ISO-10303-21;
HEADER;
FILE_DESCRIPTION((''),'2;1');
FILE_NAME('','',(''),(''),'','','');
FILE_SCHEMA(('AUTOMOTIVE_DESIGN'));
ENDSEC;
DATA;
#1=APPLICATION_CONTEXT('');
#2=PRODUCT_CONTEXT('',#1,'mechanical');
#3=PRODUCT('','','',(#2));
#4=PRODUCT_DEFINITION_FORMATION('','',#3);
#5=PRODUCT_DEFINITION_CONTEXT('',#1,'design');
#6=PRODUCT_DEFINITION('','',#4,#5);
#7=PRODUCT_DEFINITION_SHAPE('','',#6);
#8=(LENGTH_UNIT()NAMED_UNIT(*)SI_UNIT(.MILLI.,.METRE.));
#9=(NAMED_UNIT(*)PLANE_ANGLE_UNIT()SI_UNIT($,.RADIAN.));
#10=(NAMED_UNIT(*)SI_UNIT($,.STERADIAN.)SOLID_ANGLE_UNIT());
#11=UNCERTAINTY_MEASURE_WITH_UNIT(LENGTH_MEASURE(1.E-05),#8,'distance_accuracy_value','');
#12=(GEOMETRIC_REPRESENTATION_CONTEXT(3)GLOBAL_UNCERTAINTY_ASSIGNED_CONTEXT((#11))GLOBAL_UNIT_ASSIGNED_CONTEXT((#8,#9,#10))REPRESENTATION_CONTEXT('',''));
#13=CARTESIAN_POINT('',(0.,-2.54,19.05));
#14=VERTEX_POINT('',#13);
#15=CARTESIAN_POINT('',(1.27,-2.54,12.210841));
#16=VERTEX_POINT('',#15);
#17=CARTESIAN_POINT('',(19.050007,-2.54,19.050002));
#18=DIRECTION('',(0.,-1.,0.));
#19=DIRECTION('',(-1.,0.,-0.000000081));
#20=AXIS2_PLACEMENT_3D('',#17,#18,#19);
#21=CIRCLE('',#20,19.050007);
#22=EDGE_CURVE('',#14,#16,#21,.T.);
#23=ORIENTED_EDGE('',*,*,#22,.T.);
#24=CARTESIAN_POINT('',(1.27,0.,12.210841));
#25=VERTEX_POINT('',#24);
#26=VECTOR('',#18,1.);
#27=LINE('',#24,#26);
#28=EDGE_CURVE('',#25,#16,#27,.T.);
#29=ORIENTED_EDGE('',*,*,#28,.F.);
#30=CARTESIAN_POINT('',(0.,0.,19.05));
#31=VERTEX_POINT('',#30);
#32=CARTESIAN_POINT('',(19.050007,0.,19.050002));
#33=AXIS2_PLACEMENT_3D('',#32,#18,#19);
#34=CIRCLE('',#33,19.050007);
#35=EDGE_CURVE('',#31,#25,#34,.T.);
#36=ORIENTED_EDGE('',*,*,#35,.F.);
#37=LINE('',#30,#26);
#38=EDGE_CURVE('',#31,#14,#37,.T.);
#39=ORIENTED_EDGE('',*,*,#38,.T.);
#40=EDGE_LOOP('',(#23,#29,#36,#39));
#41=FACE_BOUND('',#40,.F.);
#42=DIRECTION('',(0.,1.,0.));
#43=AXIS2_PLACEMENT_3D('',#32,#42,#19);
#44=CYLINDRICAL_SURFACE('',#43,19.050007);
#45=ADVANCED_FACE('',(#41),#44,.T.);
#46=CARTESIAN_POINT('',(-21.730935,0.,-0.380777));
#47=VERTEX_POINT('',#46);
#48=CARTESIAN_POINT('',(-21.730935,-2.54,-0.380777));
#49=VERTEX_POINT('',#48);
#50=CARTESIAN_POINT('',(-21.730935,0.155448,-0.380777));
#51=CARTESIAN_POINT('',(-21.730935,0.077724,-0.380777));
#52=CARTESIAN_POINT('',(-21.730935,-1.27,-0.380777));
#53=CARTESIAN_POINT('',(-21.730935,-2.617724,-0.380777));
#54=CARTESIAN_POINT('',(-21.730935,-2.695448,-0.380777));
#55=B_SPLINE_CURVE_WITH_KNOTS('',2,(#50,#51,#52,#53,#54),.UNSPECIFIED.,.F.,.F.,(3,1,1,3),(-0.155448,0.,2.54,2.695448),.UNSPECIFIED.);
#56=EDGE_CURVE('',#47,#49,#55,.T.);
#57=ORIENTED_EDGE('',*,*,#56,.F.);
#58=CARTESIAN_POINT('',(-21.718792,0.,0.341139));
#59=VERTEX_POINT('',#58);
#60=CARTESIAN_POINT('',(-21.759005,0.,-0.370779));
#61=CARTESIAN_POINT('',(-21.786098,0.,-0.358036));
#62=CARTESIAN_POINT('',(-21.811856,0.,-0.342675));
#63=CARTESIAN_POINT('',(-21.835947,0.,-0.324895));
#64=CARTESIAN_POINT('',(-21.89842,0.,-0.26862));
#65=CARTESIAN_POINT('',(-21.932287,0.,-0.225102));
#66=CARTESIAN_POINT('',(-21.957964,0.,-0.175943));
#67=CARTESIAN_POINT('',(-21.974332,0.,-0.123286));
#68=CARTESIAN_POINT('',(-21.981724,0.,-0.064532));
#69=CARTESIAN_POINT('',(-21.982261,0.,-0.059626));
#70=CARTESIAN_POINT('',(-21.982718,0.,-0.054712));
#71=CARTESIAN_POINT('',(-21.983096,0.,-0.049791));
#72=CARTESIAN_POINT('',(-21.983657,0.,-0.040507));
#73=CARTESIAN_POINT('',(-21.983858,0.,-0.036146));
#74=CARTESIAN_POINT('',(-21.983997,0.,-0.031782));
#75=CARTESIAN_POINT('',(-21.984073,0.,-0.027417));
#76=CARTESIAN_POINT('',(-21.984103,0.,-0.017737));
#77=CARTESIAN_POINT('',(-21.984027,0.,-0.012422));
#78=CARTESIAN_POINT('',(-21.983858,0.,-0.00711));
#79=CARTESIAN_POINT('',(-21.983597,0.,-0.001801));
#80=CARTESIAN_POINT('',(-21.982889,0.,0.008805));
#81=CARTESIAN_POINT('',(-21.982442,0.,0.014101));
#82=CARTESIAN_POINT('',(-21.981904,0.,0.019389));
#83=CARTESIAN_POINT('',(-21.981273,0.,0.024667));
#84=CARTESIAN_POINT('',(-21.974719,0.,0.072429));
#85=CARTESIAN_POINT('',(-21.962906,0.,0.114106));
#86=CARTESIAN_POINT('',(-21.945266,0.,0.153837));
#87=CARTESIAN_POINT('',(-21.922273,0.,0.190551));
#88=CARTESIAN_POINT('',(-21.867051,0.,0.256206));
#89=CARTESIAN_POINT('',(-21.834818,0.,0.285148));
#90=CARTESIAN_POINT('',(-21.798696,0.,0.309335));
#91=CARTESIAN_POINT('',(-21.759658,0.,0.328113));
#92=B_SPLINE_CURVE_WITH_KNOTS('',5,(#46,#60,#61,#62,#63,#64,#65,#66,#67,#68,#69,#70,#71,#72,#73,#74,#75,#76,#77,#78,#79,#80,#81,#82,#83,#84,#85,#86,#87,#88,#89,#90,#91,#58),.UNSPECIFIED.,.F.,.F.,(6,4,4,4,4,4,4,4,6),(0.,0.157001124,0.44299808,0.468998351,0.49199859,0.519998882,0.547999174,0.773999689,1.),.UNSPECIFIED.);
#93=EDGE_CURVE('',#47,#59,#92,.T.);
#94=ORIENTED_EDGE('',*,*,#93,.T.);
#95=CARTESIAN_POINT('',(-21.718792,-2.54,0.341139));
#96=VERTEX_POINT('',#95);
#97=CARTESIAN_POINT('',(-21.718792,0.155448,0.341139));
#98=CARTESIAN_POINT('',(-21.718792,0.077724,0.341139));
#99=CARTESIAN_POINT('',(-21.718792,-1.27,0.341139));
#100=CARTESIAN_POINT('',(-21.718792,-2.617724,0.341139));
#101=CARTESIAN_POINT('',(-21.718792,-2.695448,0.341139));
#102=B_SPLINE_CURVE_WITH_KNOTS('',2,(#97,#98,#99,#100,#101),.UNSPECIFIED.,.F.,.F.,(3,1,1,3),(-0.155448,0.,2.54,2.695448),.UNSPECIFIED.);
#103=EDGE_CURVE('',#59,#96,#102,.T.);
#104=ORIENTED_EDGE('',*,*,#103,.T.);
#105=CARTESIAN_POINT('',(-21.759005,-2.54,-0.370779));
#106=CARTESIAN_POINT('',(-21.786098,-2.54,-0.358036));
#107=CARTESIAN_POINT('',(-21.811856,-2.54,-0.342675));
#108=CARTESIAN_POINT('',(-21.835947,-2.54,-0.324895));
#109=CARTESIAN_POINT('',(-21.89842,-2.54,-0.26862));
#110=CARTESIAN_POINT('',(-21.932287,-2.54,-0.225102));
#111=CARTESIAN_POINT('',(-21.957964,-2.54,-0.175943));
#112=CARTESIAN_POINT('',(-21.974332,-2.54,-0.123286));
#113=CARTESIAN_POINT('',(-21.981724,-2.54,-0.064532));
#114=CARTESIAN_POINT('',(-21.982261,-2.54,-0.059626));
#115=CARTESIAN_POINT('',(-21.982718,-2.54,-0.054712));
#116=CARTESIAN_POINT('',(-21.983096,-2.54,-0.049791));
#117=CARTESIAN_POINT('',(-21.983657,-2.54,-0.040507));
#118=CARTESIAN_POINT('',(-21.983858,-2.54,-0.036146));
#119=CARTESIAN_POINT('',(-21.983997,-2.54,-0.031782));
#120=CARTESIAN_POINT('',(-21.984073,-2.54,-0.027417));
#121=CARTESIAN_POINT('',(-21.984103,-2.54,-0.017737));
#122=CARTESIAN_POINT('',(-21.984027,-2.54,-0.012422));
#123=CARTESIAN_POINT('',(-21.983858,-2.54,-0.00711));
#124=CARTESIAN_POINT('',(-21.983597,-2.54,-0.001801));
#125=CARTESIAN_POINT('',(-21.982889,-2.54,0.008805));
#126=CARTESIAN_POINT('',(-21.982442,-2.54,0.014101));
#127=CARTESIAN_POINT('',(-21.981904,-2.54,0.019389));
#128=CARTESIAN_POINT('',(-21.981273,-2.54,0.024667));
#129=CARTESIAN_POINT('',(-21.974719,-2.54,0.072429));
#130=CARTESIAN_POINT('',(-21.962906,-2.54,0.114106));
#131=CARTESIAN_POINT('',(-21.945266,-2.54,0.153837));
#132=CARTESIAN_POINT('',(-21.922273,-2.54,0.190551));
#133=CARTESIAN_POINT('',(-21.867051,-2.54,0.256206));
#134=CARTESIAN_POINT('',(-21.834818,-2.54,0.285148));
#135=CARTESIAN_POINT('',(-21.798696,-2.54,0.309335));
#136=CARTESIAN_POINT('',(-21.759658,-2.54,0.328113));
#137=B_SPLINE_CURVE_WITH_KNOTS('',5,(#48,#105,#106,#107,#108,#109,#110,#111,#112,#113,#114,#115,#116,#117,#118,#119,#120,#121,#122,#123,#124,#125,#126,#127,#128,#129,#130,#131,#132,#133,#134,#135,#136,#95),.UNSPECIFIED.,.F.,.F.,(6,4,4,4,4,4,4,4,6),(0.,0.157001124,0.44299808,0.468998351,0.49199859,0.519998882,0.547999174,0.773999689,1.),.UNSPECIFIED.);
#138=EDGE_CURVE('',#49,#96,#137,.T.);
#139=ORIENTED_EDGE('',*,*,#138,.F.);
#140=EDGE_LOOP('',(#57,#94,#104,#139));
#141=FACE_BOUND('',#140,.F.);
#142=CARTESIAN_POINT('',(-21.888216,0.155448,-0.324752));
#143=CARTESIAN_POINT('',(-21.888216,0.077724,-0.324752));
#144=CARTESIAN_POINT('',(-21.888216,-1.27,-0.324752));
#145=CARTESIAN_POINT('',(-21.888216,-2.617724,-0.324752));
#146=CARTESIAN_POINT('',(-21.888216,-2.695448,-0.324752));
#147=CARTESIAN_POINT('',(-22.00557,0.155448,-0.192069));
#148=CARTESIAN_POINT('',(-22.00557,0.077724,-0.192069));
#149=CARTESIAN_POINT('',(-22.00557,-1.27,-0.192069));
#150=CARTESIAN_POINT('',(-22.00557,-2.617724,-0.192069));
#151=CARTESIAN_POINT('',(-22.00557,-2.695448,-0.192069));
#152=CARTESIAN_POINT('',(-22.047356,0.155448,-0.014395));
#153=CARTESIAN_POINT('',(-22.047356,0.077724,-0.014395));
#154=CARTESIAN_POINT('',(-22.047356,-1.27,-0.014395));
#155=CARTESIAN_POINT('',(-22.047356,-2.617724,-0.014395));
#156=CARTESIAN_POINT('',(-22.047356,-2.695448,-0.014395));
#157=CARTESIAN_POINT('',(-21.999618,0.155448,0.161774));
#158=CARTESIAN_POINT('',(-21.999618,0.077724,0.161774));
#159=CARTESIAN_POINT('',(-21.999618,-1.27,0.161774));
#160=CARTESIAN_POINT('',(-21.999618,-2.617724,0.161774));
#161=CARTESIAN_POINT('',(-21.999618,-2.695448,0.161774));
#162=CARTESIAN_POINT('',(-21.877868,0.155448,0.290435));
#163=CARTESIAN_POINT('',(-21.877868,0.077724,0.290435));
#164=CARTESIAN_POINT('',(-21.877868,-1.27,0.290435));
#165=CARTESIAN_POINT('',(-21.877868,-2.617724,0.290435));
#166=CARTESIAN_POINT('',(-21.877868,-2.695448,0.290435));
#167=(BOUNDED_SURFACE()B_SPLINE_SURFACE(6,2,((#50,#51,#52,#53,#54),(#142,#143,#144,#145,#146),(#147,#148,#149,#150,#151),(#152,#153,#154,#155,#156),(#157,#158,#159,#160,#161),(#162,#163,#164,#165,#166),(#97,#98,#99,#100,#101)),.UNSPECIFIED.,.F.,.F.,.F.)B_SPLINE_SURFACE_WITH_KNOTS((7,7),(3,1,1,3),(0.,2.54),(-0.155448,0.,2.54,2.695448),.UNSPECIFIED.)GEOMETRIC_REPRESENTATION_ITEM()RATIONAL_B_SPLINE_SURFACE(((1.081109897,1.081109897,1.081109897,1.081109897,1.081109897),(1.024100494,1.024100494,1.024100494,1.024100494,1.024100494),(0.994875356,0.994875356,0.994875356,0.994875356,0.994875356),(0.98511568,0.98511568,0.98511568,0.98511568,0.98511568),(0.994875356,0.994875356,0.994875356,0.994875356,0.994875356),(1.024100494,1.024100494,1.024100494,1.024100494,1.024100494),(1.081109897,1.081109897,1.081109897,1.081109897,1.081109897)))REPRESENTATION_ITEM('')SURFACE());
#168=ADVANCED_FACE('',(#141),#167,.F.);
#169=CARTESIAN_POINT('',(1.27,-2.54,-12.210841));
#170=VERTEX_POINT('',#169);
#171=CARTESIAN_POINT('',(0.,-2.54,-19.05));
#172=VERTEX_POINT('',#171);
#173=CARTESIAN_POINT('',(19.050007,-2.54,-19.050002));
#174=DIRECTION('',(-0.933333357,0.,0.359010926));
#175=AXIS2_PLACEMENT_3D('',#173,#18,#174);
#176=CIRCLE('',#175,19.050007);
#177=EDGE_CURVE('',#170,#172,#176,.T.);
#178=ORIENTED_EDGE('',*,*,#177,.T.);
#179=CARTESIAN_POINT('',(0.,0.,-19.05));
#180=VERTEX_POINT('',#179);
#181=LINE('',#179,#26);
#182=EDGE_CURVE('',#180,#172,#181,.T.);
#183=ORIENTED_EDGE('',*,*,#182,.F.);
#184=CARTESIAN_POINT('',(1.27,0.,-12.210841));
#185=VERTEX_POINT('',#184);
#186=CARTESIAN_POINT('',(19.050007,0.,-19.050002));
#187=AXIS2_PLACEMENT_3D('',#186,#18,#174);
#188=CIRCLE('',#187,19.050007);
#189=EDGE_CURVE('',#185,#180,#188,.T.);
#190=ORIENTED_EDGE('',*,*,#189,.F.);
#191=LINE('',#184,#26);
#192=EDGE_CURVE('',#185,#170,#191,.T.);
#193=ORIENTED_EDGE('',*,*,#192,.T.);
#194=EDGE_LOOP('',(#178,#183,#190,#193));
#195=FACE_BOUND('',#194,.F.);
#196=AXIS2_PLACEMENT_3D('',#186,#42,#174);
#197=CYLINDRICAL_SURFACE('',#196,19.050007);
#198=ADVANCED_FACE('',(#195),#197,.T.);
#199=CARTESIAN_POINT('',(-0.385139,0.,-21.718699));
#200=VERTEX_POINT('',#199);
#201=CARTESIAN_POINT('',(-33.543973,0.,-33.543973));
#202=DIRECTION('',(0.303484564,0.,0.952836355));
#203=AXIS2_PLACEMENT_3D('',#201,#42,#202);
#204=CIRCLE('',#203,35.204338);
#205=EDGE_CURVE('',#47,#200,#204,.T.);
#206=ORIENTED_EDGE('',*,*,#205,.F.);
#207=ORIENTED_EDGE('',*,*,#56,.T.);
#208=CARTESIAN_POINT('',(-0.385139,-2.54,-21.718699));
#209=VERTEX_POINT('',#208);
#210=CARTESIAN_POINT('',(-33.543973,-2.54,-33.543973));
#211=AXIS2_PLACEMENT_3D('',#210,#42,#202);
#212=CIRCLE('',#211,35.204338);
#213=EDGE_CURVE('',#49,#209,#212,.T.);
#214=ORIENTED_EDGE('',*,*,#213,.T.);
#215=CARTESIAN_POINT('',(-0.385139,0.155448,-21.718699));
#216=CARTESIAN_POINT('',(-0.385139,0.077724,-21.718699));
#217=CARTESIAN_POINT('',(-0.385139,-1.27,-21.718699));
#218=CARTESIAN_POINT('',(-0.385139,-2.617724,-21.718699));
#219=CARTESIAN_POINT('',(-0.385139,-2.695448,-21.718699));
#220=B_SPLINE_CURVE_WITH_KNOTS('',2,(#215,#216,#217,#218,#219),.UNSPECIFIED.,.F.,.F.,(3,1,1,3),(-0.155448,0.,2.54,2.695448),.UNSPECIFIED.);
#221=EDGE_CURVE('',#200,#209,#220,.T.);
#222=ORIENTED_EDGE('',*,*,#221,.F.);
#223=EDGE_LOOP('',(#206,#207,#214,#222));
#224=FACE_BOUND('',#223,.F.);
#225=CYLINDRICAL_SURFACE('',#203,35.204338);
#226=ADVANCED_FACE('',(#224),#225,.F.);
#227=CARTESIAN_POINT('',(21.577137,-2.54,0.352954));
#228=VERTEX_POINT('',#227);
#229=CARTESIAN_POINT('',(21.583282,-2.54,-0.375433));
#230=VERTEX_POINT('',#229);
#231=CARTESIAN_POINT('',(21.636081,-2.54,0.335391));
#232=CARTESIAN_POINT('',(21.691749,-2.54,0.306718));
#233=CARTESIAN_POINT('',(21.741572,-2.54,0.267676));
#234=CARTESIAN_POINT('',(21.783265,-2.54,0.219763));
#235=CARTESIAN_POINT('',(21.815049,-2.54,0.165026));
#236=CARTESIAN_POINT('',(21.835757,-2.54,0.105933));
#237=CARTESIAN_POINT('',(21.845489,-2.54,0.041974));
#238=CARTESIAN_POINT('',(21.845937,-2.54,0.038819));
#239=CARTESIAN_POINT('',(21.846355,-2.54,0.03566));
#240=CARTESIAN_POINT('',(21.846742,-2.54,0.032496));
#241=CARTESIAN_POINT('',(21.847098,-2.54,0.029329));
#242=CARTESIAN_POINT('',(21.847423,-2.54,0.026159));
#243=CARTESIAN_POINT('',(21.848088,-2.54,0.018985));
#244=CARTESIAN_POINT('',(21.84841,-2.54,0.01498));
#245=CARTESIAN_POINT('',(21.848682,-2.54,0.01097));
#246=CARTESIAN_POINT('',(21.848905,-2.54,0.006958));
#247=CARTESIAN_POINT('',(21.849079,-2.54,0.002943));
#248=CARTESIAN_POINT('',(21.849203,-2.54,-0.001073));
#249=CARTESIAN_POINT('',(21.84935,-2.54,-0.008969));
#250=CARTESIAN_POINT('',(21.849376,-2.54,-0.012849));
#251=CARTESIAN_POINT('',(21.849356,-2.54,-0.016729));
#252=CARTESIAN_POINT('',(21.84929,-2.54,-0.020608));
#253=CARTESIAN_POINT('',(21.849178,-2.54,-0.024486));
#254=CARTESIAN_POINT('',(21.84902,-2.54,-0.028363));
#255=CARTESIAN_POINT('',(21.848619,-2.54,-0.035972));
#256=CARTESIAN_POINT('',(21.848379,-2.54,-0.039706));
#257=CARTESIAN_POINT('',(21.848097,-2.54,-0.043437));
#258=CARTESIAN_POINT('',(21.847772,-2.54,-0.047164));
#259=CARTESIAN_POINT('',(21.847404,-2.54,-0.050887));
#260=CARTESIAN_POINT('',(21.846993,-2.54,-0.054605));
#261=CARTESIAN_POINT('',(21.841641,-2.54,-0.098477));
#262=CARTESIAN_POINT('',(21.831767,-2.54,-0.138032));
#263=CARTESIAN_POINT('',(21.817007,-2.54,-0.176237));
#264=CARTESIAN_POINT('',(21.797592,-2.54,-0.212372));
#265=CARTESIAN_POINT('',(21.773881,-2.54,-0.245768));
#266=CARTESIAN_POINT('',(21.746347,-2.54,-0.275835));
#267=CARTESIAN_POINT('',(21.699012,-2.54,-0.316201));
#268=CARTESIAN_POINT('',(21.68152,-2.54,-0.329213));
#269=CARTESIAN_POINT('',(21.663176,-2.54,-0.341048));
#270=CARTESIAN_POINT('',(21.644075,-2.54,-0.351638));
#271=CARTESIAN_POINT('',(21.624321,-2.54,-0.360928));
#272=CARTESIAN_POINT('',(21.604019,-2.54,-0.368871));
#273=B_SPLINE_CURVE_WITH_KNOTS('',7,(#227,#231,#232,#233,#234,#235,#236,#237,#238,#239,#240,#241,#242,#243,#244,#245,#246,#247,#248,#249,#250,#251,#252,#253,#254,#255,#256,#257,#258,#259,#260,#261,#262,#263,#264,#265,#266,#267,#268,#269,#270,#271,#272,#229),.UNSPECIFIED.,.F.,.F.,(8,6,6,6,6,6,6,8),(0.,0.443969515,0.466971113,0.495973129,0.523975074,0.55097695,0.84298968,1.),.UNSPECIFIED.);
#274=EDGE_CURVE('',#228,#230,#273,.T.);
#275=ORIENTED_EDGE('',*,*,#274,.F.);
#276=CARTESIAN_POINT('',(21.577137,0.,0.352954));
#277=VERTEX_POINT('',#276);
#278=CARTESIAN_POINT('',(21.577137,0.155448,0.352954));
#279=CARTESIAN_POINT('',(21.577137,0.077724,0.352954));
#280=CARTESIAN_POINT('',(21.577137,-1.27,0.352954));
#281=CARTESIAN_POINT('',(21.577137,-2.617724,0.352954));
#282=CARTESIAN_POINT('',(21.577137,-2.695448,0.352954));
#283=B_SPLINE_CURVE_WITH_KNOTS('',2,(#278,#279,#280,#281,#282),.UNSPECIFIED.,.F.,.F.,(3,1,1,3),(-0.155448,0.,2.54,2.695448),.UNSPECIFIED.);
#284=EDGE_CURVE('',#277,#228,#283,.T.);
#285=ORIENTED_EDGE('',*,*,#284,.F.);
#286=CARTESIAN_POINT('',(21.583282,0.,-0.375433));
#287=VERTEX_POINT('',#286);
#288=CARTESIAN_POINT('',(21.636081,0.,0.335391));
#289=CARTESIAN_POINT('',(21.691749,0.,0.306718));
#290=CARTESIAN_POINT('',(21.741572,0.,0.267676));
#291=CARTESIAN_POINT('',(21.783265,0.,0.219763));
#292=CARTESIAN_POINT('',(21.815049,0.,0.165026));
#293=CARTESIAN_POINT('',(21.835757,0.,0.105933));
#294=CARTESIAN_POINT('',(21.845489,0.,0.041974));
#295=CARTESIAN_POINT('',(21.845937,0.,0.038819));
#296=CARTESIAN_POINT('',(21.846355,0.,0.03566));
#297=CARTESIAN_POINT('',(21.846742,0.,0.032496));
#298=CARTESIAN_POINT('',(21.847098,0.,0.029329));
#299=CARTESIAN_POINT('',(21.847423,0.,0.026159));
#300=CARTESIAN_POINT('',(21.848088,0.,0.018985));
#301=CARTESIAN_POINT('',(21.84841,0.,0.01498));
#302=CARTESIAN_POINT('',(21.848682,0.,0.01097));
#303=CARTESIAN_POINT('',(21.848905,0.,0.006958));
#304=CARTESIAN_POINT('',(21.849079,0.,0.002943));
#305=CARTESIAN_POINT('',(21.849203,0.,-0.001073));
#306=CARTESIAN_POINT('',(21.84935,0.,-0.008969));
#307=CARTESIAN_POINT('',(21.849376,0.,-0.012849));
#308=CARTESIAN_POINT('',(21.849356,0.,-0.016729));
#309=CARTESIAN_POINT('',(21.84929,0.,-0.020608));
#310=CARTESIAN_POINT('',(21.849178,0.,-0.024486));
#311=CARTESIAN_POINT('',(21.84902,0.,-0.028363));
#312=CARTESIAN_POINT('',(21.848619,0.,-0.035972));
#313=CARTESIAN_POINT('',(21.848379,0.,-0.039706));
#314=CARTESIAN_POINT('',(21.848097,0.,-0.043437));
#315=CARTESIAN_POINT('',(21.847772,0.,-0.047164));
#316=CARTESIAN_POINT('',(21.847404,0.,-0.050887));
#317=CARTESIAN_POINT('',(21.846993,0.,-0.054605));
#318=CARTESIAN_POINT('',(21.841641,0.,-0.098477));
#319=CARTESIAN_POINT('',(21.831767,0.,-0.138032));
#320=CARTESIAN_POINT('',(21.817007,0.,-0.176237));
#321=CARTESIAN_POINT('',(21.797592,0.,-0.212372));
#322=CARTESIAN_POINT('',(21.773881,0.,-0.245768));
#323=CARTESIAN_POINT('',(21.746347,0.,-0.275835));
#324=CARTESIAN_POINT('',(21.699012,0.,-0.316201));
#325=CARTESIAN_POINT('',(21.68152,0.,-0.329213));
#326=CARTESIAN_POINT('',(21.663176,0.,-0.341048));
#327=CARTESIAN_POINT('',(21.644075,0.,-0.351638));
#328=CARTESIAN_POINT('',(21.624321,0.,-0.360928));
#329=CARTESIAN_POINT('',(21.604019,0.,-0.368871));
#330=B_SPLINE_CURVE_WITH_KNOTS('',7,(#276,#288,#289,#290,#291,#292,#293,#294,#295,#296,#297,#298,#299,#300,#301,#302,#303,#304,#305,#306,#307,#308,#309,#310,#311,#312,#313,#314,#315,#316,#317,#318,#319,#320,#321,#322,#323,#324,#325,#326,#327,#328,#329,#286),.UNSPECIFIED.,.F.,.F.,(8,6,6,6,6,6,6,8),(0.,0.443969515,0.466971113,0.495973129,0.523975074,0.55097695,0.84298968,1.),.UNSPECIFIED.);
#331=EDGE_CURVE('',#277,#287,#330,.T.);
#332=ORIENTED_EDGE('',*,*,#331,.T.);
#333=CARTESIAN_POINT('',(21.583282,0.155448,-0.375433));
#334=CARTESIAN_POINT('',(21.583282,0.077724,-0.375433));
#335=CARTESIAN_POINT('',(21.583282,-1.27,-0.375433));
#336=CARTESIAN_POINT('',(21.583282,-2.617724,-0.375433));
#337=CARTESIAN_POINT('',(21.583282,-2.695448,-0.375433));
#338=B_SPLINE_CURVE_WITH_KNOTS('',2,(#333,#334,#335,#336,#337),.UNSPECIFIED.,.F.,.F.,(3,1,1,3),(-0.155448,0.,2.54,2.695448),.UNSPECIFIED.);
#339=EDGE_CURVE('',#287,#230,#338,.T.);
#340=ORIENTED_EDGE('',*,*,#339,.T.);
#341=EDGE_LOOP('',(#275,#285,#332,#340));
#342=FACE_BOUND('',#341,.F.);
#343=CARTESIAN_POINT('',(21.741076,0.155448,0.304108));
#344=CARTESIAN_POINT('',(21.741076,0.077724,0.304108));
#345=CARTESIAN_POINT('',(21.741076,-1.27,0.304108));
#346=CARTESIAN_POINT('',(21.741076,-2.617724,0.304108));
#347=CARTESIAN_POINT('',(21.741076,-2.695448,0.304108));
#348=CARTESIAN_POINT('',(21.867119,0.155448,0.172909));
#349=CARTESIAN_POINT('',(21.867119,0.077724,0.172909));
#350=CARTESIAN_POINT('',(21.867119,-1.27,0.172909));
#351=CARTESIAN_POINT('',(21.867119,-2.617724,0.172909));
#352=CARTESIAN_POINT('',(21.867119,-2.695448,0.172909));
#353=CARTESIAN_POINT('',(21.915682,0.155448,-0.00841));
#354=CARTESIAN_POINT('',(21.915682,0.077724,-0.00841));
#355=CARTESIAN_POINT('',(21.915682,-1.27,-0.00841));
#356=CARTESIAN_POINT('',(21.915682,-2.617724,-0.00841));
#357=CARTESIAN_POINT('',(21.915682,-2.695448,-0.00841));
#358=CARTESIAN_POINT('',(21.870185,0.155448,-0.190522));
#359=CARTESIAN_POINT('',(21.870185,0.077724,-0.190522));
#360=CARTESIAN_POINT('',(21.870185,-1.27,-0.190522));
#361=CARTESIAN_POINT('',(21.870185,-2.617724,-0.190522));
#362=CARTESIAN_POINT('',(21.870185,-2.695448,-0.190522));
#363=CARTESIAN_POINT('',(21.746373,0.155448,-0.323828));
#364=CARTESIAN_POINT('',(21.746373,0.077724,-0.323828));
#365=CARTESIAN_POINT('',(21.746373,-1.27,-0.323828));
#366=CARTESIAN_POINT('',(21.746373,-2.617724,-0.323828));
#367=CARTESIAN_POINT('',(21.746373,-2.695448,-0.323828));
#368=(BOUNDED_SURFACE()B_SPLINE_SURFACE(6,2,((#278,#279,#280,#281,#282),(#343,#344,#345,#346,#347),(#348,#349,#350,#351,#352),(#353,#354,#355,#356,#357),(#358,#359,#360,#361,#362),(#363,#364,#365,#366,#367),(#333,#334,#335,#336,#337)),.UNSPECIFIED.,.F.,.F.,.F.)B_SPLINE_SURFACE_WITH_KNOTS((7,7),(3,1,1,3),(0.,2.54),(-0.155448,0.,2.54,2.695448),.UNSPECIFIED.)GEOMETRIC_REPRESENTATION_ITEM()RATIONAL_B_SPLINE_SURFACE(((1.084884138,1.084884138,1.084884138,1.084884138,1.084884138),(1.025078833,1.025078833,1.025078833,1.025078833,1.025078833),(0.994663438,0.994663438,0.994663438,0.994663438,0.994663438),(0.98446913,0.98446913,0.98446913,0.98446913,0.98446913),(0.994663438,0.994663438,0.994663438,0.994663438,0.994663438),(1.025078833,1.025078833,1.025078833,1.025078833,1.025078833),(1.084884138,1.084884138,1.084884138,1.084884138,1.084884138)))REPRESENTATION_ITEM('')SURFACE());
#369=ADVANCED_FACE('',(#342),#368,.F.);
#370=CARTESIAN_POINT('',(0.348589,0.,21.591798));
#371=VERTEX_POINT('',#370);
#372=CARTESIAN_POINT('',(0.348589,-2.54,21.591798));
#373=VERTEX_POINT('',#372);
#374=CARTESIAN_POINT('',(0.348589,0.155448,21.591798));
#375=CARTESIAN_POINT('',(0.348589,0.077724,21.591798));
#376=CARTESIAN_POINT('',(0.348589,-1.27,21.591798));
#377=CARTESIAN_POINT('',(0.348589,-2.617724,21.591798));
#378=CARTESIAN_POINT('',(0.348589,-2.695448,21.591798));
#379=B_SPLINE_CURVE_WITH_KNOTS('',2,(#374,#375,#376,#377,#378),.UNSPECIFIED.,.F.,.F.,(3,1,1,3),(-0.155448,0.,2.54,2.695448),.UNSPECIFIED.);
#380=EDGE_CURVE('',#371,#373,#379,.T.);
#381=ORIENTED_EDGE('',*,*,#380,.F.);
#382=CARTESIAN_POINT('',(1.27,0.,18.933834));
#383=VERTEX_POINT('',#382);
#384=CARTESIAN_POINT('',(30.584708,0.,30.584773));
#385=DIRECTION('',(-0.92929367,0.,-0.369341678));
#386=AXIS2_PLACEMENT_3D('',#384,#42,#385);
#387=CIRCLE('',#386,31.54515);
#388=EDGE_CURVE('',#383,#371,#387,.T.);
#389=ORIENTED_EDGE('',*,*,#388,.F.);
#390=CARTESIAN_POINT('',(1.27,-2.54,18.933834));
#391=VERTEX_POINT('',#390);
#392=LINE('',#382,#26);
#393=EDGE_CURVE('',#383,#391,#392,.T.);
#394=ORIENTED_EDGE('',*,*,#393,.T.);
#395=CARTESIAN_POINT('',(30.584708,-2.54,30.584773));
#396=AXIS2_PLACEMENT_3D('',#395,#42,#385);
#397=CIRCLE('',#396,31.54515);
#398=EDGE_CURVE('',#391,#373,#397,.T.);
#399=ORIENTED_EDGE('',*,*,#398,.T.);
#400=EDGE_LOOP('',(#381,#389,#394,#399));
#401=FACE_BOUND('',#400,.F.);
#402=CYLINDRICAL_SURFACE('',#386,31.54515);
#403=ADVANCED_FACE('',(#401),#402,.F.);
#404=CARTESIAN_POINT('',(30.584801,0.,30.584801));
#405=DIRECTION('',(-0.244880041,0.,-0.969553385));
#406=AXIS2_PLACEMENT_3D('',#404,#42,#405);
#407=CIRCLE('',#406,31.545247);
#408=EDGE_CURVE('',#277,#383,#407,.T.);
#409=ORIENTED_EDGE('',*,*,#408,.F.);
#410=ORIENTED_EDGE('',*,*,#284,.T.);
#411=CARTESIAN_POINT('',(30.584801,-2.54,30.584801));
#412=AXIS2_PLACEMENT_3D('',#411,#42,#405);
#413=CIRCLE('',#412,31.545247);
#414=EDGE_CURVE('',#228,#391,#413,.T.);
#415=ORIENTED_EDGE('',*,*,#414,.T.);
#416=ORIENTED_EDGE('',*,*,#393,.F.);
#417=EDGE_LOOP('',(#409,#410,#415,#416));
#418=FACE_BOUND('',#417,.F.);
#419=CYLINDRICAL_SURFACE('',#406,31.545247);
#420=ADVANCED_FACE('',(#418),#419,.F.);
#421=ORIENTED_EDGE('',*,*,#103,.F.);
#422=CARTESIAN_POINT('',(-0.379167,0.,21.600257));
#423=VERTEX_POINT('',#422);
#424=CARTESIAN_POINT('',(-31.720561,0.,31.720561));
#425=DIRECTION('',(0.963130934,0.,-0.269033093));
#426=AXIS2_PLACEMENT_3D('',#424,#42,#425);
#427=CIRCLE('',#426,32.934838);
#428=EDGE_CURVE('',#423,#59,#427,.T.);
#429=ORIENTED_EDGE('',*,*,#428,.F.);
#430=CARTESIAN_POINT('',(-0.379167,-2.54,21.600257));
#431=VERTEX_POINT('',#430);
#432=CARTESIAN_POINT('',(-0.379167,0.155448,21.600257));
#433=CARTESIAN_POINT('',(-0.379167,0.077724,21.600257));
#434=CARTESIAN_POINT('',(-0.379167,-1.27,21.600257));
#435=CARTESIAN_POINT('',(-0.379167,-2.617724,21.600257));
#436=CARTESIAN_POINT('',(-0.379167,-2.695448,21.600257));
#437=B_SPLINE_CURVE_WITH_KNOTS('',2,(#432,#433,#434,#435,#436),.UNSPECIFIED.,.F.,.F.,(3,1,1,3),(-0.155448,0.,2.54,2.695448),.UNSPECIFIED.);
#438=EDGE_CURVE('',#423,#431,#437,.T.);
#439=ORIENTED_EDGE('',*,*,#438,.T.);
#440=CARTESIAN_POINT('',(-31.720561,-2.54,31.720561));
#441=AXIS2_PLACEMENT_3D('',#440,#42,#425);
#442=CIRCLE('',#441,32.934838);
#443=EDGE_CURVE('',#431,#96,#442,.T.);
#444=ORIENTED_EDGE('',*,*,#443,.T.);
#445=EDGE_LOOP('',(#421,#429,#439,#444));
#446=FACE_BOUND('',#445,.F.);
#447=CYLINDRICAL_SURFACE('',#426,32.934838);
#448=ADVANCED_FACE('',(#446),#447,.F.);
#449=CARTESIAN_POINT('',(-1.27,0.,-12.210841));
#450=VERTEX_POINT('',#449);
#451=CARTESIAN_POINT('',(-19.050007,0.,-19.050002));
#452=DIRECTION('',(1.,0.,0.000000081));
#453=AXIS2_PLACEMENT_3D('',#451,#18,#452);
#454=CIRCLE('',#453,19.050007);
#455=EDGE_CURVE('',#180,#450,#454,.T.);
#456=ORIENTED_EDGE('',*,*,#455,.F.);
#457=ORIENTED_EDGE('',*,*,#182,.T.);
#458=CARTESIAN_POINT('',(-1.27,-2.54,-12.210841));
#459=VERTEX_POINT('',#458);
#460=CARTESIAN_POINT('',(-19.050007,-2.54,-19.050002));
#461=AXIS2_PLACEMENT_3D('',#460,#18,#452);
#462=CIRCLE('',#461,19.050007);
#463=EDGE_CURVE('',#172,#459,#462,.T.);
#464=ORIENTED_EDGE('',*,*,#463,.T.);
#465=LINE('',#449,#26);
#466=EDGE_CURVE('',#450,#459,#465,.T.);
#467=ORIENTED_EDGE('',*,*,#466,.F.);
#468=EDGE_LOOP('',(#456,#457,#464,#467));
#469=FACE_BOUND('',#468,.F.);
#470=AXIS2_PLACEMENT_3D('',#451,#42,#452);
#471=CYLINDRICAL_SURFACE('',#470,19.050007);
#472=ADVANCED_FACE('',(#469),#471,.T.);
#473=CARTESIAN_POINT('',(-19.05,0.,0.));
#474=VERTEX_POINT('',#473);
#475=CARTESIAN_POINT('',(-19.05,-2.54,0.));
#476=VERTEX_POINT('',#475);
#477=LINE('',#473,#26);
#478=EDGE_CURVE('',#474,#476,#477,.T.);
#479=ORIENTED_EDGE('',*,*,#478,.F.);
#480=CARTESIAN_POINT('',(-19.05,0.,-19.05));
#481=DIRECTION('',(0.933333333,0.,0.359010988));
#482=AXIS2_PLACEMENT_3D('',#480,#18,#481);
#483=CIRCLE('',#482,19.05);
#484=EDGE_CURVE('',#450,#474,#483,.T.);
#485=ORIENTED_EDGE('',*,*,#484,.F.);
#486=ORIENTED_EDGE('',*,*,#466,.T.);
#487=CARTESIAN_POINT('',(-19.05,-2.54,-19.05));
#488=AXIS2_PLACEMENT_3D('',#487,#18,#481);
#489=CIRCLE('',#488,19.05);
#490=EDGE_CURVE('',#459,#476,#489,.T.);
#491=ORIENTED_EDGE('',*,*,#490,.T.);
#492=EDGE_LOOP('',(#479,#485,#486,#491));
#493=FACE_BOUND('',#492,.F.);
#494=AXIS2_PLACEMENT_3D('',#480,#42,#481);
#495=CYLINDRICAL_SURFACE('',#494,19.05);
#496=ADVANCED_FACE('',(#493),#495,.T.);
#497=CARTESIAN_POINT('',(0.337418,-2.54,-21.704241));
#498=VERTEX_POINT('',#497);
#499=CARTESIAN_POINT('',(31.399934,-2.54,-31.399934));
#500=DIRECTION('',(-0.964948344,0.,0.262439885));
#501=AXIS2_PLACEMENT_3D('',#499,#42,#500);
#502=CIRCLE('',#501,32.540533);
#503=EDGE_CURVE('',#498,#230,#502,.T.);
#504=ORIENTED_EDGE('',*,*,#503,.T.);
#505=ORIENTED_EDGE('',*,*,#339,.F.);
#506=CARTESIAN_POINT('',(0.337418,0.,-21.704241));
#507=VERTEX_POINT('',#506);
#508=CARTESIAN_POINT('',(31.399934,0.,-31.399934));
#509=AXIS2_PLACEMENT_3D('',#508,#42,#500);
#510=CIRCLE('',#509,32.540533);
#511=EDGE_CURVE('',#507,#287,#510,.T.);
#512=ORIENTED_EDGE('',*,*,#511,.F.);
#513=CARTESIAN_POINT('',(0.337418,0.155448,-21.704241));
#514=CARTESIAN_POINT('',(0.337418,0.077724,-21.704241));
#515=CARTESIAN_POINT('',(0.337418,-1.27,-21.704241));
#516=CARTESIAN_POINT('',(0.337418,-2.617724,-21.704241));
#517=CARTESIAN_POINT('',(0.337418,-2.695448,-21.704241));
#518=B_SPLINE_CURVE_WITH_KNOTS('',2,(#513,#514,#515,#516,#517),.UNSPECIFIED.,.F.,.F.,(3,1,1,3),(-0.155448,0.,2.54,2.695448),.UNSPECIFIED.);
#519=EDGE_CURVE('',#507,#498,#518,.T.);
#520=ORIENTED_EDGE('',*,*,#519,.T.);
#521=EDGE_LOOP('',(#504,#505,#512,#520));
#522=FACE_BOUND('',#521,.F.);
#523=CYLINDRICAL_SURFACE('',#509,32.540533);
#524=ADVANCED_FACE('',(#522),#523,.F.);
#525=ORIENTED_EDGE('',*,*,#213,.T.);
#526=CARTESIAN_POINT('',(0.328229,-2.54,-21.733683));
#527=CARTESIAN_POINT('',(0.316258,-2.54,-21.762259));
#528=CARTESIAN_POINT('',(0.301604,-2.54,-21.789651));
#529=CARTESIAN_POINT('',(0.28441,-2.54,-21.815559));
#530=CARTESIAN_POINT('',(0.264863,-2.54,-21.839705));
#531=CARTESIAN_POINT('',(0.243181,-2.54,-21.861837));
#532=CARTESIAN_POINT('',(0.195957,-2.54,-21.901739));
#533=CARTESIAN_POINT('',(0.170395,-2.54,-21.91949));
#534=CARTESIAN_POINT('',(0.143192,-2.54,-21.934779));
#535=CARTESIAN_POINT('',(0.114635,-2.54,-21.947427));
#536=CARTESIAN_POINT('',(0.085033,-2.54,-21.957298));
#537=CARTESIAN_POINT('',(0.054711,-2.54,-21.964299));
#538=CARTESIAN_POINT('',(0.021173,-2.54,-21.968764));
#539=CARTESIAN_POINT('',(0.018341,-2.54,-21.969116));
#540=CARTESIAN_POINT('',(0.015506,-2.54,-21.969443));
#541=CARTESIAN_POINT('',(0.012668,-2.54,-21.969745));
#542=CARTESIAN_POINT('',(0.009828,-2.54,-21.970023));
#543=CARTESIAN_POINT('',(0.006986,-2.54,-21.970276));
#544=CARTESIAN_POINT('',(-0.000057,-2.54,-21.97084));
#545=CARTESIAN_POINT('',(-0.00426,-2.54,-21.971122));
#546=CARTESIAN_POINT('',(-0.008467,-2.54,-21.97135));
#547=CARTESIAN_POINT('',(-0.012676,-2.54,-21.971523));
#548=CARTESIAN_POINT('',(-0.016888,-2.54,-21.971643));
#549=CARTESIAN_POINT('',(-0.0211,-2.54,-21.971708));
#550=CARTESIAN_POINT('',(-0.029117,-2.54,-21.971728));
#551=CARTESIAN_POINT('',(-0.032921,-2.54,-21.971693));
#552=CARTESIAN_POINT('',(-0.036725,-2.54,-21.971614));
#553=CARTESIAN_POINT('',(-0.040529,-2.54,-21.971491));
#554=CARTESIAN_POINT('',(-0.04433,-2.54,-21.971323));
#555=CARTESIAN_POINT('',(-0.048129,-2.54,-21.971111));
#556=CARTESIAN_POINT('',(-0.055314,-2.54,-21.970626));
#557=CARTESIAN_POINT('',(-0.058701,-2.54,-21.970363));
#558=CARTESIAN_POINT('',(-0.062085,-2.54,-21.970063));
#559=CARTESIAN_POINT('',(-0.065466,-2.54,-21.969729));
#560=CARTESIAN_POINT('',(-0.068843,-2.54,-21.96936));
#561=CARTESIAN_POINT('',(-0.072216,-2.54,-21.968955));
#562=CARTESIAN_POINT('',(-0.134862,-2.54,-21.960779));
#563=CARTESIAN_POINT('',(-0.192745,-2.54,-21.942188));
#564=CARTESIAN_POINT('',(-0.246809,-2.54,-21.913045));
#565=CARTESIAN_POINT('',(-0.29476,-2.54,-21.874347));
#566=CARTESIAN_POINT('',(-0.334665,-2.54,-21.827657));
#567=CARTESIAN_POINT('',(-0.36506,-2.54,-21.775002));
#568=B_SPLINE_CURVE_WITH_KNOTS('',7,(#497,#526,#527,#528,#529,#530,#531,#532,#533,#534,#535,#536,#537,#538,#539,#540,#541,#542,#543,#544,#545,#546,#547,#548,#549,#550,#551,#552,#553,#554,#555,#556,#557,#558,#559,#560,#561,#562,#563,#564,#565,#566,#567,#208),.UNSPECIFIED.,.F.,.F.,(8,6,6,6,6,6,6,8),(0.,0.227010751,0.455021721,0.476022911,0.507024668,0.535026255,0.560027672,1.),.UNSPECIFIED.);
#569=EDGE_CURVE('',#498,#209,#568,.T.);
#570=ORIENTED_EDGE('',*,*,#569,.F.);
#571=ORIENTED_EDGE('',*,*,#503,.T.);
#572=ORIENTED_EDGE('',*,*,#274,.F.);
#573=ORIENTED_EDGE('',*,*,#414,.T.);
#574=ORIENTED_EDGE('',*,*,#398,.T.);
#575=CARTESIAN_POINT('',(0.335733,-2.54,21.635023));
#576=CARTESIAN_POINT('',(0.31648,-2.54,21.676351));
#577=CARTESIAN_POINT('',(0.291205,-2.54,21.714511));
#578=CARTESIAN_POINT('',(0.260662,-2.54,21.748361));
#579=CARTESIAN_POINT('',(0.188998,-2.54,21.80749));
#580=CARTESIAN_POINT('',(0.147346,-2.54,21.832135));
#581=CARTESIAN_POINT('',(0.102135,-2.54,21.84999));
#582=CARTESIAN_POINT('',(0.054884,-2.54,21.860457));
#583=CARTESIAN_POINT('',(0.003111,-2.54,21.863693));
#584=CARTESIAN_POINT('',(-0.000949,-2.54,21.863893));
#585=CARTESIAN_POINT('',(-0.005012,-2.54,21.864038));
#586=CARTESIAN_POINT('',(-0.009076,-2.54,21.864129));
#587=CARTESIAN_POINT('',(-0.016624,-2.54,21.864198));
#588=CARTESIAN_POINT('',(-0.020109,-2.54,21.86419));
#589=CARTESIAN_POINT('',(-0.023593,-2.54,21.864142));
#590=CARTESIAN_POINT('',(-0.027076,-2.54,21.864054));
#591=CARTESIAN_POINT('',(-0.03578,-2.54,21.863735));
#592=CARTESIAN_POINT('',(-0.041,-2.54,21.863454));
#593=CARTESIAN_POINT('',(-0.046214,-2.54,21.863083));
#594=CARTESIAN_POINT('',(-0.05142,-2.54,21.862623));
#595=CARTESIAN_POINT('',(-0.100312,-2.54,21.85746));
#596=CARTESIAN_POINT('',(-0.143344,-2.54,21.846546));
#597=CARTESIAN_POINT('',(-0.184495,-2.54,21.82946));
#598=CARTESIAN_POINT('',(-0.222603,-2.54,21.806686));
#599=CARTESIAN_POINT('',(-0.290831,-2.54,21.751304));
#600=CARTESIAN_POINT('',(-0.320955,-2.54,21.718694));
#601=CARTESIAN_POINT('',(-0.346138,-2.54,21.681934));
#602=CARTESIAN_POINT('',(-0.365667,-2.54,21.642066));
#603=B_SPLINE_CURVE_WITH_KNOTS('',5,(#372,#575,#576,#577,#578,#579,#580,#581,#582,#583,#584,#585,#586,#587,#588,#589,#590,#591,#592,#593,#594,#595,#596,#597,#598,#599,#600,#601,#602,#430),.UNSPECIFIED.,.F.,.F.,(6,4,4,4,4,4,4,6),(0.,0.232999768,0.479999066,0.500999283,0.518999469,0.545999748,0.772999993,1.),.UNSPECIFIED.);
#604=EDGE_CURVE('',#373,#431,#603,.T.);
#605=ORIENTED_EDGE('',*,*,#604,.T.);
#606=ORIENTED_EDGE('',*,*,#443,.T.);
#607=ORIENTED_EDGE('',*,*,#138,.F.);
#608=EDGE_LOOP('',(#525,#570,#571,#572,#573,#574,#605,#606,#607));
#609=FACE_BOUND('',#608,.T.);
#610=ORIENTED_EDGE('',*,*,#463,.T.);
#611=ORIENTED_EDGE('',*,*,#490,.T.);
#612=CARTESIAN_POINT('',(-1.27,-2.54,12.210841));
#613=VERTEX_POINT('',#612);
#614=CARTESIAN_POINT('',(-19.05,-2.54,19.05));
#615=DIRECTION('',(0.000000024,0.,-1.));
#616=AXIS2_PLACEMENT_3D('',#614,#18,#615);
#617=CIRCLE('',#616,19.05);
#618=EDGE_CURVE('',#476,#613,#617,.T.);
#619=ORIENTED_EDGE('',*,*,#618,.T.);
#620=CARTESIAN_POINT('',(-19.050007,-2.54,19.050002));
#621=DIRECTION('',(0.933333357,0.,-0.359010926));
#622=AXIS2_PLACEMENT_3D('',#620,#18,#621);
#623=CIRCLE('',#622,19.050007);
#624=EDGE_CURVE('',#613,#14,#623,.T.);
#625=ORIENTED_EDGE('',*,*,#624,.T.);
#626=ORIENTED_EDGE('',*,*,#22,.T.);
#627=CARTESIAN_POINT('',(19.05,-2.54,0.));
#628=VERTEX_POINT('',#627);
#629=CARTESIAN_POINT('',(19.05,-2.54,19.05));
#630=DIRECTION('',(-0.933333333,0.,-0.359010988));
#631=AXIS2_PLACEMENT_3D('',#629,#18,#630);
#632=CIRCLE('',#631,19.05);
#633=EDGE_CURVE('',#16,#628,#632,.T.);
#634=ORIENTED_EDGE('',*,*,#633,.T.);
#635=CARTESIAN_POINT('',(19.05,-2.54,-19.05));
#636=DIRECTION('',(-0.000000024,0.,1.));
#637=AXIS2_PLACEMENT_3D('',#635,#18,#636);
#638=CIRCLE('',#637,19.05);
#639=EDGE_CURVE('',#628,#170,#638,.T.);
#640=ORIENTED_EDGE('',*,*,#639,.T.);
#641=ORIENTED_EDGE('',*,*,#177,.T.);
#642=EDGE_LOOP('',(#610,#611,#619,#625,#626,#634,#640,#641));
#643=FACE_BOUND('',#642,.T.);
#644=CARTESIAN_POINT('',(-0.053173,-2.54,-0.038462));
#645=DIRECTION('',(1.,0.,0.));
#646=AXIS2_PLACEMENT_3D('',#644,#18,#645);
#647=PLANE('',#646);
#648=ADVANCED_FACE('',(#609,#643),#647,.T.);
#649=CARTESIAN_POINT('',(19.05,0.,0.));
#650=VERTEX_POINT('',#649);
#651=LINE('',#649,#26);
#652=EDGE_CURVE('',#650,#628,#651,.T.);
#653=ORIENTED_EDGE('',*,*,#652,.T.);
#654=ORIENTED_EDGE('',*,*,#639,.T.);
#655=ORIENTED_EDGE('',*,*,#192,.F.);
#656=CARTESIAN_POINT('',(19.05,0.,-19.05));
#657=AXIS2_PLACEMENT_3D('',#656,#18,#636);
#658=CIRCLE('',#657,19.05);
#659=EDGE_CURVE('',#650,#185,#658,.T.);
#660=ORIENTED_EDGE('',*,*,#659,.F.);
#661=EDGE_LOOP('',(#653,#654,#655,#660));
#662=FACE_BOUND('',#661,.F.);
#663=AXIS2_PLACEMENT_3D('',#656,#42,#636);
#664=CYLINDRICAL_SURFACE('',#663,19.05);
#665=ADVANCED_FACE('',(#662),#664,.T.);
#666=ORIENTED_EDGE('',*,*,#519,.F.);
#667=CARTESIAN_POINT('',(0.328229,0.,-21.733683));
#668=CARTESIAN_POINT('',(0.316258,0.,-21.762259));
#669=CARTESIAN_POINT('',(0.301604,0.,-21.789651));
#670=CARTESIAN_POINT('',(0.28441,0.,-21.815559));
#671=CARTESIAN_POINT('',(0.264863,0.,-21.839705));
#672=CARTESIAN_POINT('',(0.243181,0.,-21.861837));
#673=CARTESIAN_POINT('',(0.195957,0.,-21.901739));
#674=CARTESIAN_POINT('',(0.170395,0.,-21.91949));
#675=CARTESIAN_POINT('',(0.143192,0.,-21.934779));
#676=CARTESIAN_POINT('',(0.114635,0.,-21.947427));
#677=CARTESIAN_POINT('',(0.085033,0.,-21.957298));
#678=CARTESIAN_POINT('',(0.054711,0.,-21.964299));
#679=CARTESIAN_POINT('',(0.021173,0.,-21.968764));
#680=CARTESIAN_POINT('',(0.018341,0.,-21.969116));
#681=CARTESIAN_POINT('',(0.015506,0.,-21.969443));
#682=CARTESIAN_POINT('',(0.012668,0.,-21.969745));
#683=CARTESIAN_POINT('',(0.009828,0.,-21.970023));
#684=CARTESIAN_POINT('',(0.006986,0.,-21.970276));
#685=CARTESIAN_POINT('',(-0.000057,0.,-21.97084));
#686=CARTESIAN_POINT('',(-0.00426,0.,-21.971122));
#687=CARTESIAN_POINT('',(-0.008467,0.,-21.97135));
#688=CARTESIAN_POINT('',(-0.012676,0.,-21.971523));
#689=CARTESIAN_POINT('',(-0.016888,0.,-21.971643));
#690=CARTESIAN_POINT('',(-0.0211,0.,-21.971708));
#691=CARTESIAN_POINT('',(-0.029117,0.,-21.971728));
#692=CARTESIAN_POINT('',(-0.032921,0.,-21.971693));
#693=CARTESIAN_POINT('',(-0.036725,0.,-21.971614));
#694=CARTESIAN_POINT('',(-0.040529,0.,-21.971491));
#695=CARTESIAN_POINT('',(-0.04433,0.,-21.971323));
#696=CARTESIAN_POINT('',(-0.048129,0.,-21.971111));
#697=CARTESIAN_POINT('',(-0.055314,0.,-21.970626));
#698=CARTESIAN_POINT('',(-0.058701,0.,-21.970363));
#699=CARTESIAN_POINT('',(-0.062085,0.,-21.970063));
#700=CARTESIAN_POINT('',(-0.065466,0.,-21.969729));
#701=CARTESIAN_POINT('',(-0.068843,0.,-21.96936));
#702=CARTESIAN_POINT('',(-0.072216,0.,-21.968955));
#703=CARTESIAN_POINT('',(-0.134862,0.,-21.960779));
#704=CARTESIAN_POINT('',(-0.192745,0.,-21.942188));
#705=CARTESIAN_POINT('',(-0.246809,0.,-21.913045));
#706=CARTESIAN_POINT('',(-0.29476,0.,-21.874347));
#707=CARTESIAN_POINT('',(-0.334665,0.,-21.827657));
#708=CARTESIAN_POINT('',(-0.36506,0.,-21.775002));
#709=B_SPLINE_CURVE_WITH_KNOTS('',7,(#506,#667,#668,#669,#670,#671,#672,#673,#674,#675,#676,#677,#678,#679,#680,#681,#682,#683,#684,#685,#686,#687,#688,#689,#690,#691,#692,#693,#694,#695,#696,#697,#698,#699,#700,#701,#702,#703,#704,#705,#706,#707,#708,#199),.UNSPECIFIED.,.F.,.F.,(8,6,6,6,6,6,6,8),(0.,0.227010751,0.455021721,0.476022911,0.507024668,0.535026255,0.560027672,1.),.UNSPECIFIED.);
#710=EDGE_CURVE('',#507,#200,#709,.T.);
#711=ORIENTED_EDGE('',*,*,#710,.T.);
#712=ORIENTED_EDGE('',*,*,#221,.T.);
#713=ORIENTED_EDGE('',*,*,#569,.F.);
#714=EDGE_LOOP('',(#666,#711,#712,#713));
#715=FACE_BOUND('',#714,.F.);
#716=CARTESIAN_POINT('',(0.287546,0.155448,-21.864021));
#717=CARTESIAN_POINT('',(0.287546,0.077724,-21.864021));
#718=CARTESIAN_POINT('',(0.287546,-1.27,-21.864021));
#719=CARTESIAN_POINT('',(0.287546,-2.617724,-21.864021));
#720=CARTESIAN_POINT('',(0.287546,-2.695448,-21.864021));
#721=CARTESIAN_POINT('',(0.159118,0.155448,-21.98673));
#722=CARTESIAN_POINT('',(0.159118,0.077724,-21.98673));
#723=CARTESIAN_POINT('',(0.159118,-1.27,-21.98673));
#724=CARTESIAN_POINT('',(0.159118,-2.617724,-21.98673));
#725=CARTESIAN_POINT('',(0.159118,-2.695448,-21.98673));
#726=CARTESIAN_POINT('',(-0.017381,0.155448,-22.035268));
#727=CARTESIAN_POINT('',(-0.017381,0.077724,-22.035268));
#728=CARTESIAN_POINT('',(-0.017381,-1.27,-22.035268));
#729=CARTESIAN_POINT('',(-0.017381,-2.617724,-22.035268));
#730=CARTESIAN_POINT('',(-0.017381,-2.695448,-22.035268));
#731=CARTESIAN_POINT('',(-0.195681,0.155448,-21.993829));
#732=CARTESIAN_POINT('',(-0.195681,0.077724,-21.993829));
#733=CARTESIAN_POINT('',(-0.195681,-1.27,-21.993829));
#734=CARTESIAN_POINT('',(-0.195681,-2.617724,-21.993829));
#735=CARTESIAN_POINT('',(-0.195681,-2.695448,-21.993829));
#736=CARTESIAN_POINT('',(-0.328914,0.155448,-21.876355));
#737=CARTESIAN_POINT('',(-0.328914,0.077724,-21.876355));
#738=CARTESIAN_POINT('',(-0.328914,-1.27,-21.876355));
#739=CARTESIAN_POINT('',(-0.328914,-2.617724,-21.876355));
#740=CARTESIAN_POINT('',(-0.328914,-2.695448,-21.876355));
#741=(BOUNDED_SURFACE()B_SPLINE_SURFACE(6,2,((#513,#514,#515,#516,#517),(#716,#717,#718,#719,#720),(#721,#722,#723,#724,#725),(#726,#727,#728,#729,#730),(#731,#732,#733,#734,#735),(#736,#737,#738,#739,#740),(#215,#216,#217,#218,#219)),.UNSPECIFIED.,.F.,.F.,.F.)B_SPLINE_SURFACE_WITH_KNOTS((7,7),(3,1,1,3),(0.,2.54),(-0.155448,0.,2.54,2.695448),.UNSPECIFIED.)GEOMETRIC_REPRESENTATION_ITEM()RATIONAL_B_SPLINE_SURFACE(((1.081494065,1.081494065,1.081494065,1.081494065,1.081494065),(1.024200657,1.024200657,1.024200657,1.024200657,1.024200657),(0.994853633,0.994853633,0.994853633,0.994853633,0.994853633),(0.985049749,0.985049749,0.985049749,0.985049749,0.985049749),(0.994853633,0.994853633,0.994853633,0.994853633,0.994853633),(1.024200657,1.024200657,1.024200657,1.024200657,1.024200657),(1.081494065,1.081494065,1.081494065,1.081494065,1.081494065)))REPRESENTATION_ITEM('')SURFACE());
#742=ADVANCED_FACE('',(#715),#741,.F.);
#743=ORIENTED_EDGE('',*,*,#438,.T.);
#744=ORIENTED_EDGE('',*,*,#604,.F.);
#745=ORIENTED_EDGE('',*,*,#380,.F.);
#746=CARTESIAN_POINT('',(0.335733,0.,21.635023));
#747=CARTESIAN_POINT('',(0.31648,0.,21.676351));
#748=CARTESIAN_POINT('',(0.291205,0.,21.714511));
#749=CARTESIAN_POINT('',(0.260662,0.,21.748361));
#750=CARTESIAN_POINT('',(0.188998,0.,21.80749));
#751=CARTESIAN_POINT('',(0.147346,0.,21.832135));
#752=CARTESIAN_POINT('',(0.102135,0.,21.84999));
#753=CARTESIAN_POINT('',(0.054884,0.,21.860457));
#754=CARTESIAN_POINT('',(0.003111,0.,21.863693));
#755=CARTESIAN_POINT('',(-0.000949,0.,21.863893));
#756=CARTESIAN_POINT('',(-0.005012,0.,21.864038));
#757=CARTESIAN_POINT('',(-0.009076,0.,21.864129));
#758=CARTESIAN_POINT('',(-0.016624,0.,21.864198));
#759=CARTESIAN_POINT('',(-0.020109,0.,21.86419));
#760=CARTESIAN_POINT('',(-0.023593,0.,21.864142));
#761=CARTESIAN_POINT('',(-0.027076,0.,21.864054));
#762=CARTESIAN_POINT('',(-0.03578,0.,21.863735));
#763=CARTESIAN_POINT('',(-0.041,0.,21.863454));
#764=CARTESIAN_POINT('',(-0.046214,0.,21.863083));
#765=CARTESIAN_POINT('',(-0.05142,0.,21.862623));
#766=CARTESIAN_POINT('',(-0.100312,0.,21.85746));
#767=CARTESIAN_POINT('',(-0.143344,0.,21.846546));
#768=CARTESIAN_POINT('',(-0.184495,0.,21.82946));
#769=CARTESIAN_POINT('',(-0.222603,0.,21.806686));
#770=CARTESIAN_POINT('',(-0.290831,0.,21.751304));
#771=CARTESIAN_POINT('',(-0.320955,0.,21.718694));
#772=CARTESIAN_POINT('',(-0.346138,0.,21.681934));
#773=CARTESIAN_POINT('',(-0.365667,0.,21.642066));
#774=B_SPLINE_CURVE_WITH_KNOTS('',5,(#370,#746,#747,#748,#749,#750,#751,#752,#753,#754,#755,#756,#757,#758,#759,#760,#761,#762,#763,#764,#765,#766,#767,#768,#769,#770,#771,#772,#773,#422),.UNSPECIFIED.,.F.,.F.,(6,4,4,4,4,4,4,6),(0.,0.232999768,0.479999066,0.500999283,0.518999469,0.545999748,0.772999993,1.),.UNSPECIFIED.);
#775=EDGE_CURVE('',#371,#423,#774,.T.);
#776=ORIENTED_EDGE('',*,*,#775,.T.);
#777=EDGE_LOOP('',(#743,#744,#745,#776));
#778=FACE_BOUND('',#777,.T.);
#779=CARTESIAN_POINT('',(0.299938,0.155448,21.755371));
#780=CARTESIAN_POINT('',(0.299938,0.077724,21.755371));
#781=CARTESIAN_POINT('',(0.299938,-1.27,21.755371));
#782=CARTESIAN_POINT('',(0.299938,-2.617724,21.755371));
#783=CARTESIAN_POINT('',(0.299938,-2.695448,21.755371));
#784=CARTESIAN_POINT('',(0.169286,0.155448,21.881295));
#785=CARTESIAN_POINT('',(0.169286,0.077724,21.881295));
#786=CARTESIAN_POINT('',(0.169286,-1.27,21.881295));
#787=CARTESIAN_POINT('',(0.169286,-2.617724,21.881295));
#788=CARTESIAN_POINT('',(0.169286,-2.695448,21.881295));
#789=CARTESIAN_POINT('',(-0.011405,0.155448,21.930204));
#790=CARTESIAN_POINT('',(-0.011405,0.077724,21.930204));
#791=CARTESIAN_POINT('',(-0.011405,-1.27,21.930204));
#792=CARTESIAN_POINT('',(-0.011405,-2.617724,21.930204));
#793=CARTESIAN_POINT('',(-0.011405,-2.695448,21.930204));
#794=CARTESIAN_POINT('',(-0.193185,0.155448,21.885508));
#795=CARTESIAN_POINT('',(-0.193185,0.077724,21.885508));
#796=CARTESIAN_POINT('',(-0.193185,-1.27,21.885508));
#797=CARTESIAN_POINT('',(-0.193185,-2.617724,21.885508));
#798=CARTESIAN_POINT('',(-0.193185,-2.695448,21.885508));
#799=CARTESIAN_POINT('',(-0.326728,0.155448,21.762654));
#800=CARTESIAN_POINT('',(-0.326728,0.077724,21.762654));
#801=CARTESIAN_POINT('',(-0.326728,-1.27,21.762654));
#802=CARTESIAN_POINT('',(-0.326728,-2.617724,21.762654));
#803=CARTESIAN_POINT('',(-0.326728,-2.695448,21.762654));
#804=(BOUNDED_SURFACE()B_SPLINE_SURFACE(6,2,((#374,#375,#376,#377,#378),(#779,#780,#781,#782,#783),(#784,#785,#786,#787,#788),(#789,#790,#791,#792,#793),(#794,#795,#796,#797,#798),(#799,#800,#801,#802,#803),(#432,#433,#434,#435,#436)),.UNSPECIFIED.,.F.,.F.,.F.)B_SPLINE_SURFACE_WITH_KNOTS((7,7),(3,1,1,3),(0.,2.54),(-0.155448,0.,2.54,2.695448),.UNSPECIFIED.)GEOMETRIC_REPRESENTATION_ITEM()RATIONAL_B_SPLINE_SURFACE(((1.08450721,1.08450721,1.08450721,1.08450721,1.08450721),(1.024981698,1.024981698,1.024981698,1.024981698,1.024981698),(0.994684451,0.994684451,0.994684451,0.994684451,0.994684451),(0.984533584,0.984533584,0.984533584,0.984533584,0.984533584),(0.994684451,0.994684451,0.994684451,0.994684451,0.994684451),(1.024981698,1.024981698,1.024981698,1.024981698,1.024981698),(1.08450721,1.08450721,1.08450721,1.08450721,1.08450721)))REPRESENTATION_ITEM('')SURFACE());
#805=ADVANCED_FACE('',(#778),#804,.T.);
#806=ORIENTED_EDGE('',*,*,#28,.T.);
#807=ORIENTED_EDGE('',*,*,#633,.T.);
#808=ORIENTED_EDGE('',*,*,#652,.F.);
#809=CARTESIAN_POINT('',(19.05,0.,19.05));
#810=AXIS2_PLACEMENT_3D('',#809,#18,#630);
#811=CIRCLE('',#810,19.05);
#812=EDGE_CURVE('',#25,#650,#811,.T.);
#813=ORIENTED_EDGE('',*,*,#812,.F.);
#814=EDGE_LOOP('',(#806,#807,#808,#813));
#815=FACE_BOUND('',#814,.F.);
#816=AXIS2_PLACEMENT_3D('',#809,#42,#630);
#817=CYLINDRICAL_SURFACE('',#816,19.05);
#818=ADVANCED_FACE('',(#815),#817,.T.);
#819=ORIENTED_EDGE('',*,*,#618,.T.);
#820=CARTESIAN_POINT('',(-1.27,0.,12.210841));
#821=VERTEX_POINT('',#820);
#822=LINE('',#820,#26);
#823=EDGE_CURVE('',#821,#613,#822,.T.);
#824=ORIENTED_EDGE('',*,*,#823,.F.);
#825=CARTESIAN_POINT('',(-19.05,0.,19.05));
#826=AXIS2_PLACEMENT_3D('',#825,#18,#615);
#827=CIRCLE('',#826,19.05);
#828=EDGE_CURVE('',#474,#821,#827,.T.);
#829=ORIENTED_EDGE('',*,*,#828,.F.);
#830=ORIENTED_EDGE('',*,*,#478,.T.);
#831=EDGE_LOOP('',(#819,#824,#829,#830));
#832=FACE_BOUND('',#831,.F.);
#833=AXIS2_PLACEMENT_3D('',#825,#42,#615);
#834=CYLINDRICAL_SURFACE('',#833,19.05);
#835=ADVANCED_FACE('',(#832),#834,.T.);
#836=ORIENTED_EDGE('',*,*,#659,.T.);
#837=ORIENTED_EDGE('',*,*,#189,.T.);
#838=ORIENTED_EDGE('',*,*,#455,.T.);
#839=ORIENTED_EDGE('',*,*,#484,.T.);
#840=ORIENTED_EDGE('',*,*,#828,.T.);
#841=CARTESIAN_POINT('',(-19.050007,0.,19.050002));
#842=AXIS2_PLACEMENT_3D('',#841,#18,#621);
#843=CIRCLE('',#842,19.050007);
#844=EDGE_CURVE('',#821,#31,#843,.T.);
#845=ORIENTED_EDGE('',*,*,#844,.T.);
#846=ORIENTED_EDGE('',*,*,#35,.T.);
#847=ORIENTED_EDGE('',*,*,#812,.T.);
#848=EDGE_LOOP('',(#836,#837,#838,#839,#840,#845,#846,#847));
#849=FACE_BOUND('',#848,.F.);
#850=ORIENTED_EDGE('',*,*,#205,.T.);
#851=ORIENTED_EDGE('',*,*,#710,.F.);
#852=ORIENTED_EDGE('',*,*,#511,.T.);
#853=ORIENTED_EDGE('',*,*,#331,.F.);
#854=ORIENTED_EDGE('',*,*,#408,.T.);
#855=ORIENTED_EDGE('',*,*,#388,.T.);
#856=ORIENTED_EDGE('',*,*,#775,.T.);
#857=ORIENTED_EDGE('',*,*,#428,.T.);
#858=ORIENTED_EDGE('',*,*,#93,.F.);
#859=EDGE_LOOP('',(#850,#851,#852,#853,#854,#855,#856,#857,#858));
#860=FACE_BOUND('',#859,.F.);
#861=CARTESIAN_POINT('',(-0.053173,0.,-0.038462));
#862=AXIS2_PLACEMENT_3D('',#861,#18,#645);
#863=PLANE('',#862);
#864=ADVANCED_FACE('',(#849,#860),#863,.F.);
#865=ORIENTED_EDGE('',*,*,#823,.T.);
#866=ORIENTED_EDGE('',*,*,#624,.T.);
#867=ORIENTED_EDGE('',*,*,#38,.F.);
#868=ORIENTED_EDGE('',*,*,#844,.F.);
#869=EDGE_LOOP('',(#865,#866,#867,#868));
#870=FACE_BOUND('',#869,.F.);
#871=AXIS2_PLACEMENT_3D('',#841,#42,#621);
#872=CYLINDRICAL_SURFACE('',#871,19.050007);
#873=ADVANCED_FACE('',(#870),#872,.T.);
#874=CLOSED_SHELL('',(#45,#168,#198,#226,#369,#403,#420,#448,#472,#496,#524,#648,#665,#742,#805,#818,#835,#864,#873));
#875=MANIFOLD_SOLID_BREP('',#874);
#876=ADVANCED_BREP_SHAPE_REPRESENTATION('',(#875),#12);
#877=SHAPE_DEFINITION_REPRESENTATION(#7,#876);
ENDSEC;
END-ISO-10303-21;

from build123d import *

# Parameters (mm, degrees)
F2_DEPTH = 2.54
F1_R     = 0.381


with BuildPart() as f2:
    # F0 (on Front) → F2 (new body)
    with BuildSketch(Plane.XZ):
        with BuildLine():
            ThreePointArc((22.86, 0), (9.785629, 6.867781), (1.27, 18.933834))
            ThreePointArc((1.27, 18.933834), (0.570733, 20.876128), (0, 22.86))
            ThreePointArc((0, 22.86), (-8.432114, 8.432114), (-22.86, 0))
            ThreePointArc((-22.86, 0), (-8.650747, -8.650747), (0, -22.86))
            ThreePointArc((0, -22.86), (8.390302, -8.390302), (22.86, 0))
        make_face()
        with BuildLine():
            ThreePointArc((1.27, -12.210841), (0.320191, -15.571962), (0, -19.05))
            ThreePointArc((0, -19.05), (-0.320191, -15.571962), (-1.27, -12.210841))
            ThreePointArc((-1.27, -12.210841), (-8.265369, -3.346681), (-19.05, 0))
            ThreePointArc((-19.05, 0), (-8.265369, 3.346681), (-1.27, 12.210841))
            ThreePointArc((-1.27, 12.210841), (-0.320191, 15.571962), (0, 19.05))
            ThreePointArc((0, 19.05), (0.320191, 15.571962), (1.27, 12.210841))
            ThreePointArc((1.27, 12.210841), (8.265369, 3.346681), (19.05, 0))
            ThreePointArc((19.05, 0), (8.265369, -3.346681), (1.27, -12.210841))
        make_face(mode=Mode.SUBTRACT)
    extrude(amount=F2_DEPTH)

    # F1
    f1_edges = [f2.edges().sort_by_distance(p)[0] for p in [
        (0, -1.27, 22.86),
        (22.86, -1.27, 0),
        (0, -1.27, -22.86),
        (-22.86, -1.27, 0),
    ]]
    fillet(f1_edges, radius=F1_R)


solid = f2.part
